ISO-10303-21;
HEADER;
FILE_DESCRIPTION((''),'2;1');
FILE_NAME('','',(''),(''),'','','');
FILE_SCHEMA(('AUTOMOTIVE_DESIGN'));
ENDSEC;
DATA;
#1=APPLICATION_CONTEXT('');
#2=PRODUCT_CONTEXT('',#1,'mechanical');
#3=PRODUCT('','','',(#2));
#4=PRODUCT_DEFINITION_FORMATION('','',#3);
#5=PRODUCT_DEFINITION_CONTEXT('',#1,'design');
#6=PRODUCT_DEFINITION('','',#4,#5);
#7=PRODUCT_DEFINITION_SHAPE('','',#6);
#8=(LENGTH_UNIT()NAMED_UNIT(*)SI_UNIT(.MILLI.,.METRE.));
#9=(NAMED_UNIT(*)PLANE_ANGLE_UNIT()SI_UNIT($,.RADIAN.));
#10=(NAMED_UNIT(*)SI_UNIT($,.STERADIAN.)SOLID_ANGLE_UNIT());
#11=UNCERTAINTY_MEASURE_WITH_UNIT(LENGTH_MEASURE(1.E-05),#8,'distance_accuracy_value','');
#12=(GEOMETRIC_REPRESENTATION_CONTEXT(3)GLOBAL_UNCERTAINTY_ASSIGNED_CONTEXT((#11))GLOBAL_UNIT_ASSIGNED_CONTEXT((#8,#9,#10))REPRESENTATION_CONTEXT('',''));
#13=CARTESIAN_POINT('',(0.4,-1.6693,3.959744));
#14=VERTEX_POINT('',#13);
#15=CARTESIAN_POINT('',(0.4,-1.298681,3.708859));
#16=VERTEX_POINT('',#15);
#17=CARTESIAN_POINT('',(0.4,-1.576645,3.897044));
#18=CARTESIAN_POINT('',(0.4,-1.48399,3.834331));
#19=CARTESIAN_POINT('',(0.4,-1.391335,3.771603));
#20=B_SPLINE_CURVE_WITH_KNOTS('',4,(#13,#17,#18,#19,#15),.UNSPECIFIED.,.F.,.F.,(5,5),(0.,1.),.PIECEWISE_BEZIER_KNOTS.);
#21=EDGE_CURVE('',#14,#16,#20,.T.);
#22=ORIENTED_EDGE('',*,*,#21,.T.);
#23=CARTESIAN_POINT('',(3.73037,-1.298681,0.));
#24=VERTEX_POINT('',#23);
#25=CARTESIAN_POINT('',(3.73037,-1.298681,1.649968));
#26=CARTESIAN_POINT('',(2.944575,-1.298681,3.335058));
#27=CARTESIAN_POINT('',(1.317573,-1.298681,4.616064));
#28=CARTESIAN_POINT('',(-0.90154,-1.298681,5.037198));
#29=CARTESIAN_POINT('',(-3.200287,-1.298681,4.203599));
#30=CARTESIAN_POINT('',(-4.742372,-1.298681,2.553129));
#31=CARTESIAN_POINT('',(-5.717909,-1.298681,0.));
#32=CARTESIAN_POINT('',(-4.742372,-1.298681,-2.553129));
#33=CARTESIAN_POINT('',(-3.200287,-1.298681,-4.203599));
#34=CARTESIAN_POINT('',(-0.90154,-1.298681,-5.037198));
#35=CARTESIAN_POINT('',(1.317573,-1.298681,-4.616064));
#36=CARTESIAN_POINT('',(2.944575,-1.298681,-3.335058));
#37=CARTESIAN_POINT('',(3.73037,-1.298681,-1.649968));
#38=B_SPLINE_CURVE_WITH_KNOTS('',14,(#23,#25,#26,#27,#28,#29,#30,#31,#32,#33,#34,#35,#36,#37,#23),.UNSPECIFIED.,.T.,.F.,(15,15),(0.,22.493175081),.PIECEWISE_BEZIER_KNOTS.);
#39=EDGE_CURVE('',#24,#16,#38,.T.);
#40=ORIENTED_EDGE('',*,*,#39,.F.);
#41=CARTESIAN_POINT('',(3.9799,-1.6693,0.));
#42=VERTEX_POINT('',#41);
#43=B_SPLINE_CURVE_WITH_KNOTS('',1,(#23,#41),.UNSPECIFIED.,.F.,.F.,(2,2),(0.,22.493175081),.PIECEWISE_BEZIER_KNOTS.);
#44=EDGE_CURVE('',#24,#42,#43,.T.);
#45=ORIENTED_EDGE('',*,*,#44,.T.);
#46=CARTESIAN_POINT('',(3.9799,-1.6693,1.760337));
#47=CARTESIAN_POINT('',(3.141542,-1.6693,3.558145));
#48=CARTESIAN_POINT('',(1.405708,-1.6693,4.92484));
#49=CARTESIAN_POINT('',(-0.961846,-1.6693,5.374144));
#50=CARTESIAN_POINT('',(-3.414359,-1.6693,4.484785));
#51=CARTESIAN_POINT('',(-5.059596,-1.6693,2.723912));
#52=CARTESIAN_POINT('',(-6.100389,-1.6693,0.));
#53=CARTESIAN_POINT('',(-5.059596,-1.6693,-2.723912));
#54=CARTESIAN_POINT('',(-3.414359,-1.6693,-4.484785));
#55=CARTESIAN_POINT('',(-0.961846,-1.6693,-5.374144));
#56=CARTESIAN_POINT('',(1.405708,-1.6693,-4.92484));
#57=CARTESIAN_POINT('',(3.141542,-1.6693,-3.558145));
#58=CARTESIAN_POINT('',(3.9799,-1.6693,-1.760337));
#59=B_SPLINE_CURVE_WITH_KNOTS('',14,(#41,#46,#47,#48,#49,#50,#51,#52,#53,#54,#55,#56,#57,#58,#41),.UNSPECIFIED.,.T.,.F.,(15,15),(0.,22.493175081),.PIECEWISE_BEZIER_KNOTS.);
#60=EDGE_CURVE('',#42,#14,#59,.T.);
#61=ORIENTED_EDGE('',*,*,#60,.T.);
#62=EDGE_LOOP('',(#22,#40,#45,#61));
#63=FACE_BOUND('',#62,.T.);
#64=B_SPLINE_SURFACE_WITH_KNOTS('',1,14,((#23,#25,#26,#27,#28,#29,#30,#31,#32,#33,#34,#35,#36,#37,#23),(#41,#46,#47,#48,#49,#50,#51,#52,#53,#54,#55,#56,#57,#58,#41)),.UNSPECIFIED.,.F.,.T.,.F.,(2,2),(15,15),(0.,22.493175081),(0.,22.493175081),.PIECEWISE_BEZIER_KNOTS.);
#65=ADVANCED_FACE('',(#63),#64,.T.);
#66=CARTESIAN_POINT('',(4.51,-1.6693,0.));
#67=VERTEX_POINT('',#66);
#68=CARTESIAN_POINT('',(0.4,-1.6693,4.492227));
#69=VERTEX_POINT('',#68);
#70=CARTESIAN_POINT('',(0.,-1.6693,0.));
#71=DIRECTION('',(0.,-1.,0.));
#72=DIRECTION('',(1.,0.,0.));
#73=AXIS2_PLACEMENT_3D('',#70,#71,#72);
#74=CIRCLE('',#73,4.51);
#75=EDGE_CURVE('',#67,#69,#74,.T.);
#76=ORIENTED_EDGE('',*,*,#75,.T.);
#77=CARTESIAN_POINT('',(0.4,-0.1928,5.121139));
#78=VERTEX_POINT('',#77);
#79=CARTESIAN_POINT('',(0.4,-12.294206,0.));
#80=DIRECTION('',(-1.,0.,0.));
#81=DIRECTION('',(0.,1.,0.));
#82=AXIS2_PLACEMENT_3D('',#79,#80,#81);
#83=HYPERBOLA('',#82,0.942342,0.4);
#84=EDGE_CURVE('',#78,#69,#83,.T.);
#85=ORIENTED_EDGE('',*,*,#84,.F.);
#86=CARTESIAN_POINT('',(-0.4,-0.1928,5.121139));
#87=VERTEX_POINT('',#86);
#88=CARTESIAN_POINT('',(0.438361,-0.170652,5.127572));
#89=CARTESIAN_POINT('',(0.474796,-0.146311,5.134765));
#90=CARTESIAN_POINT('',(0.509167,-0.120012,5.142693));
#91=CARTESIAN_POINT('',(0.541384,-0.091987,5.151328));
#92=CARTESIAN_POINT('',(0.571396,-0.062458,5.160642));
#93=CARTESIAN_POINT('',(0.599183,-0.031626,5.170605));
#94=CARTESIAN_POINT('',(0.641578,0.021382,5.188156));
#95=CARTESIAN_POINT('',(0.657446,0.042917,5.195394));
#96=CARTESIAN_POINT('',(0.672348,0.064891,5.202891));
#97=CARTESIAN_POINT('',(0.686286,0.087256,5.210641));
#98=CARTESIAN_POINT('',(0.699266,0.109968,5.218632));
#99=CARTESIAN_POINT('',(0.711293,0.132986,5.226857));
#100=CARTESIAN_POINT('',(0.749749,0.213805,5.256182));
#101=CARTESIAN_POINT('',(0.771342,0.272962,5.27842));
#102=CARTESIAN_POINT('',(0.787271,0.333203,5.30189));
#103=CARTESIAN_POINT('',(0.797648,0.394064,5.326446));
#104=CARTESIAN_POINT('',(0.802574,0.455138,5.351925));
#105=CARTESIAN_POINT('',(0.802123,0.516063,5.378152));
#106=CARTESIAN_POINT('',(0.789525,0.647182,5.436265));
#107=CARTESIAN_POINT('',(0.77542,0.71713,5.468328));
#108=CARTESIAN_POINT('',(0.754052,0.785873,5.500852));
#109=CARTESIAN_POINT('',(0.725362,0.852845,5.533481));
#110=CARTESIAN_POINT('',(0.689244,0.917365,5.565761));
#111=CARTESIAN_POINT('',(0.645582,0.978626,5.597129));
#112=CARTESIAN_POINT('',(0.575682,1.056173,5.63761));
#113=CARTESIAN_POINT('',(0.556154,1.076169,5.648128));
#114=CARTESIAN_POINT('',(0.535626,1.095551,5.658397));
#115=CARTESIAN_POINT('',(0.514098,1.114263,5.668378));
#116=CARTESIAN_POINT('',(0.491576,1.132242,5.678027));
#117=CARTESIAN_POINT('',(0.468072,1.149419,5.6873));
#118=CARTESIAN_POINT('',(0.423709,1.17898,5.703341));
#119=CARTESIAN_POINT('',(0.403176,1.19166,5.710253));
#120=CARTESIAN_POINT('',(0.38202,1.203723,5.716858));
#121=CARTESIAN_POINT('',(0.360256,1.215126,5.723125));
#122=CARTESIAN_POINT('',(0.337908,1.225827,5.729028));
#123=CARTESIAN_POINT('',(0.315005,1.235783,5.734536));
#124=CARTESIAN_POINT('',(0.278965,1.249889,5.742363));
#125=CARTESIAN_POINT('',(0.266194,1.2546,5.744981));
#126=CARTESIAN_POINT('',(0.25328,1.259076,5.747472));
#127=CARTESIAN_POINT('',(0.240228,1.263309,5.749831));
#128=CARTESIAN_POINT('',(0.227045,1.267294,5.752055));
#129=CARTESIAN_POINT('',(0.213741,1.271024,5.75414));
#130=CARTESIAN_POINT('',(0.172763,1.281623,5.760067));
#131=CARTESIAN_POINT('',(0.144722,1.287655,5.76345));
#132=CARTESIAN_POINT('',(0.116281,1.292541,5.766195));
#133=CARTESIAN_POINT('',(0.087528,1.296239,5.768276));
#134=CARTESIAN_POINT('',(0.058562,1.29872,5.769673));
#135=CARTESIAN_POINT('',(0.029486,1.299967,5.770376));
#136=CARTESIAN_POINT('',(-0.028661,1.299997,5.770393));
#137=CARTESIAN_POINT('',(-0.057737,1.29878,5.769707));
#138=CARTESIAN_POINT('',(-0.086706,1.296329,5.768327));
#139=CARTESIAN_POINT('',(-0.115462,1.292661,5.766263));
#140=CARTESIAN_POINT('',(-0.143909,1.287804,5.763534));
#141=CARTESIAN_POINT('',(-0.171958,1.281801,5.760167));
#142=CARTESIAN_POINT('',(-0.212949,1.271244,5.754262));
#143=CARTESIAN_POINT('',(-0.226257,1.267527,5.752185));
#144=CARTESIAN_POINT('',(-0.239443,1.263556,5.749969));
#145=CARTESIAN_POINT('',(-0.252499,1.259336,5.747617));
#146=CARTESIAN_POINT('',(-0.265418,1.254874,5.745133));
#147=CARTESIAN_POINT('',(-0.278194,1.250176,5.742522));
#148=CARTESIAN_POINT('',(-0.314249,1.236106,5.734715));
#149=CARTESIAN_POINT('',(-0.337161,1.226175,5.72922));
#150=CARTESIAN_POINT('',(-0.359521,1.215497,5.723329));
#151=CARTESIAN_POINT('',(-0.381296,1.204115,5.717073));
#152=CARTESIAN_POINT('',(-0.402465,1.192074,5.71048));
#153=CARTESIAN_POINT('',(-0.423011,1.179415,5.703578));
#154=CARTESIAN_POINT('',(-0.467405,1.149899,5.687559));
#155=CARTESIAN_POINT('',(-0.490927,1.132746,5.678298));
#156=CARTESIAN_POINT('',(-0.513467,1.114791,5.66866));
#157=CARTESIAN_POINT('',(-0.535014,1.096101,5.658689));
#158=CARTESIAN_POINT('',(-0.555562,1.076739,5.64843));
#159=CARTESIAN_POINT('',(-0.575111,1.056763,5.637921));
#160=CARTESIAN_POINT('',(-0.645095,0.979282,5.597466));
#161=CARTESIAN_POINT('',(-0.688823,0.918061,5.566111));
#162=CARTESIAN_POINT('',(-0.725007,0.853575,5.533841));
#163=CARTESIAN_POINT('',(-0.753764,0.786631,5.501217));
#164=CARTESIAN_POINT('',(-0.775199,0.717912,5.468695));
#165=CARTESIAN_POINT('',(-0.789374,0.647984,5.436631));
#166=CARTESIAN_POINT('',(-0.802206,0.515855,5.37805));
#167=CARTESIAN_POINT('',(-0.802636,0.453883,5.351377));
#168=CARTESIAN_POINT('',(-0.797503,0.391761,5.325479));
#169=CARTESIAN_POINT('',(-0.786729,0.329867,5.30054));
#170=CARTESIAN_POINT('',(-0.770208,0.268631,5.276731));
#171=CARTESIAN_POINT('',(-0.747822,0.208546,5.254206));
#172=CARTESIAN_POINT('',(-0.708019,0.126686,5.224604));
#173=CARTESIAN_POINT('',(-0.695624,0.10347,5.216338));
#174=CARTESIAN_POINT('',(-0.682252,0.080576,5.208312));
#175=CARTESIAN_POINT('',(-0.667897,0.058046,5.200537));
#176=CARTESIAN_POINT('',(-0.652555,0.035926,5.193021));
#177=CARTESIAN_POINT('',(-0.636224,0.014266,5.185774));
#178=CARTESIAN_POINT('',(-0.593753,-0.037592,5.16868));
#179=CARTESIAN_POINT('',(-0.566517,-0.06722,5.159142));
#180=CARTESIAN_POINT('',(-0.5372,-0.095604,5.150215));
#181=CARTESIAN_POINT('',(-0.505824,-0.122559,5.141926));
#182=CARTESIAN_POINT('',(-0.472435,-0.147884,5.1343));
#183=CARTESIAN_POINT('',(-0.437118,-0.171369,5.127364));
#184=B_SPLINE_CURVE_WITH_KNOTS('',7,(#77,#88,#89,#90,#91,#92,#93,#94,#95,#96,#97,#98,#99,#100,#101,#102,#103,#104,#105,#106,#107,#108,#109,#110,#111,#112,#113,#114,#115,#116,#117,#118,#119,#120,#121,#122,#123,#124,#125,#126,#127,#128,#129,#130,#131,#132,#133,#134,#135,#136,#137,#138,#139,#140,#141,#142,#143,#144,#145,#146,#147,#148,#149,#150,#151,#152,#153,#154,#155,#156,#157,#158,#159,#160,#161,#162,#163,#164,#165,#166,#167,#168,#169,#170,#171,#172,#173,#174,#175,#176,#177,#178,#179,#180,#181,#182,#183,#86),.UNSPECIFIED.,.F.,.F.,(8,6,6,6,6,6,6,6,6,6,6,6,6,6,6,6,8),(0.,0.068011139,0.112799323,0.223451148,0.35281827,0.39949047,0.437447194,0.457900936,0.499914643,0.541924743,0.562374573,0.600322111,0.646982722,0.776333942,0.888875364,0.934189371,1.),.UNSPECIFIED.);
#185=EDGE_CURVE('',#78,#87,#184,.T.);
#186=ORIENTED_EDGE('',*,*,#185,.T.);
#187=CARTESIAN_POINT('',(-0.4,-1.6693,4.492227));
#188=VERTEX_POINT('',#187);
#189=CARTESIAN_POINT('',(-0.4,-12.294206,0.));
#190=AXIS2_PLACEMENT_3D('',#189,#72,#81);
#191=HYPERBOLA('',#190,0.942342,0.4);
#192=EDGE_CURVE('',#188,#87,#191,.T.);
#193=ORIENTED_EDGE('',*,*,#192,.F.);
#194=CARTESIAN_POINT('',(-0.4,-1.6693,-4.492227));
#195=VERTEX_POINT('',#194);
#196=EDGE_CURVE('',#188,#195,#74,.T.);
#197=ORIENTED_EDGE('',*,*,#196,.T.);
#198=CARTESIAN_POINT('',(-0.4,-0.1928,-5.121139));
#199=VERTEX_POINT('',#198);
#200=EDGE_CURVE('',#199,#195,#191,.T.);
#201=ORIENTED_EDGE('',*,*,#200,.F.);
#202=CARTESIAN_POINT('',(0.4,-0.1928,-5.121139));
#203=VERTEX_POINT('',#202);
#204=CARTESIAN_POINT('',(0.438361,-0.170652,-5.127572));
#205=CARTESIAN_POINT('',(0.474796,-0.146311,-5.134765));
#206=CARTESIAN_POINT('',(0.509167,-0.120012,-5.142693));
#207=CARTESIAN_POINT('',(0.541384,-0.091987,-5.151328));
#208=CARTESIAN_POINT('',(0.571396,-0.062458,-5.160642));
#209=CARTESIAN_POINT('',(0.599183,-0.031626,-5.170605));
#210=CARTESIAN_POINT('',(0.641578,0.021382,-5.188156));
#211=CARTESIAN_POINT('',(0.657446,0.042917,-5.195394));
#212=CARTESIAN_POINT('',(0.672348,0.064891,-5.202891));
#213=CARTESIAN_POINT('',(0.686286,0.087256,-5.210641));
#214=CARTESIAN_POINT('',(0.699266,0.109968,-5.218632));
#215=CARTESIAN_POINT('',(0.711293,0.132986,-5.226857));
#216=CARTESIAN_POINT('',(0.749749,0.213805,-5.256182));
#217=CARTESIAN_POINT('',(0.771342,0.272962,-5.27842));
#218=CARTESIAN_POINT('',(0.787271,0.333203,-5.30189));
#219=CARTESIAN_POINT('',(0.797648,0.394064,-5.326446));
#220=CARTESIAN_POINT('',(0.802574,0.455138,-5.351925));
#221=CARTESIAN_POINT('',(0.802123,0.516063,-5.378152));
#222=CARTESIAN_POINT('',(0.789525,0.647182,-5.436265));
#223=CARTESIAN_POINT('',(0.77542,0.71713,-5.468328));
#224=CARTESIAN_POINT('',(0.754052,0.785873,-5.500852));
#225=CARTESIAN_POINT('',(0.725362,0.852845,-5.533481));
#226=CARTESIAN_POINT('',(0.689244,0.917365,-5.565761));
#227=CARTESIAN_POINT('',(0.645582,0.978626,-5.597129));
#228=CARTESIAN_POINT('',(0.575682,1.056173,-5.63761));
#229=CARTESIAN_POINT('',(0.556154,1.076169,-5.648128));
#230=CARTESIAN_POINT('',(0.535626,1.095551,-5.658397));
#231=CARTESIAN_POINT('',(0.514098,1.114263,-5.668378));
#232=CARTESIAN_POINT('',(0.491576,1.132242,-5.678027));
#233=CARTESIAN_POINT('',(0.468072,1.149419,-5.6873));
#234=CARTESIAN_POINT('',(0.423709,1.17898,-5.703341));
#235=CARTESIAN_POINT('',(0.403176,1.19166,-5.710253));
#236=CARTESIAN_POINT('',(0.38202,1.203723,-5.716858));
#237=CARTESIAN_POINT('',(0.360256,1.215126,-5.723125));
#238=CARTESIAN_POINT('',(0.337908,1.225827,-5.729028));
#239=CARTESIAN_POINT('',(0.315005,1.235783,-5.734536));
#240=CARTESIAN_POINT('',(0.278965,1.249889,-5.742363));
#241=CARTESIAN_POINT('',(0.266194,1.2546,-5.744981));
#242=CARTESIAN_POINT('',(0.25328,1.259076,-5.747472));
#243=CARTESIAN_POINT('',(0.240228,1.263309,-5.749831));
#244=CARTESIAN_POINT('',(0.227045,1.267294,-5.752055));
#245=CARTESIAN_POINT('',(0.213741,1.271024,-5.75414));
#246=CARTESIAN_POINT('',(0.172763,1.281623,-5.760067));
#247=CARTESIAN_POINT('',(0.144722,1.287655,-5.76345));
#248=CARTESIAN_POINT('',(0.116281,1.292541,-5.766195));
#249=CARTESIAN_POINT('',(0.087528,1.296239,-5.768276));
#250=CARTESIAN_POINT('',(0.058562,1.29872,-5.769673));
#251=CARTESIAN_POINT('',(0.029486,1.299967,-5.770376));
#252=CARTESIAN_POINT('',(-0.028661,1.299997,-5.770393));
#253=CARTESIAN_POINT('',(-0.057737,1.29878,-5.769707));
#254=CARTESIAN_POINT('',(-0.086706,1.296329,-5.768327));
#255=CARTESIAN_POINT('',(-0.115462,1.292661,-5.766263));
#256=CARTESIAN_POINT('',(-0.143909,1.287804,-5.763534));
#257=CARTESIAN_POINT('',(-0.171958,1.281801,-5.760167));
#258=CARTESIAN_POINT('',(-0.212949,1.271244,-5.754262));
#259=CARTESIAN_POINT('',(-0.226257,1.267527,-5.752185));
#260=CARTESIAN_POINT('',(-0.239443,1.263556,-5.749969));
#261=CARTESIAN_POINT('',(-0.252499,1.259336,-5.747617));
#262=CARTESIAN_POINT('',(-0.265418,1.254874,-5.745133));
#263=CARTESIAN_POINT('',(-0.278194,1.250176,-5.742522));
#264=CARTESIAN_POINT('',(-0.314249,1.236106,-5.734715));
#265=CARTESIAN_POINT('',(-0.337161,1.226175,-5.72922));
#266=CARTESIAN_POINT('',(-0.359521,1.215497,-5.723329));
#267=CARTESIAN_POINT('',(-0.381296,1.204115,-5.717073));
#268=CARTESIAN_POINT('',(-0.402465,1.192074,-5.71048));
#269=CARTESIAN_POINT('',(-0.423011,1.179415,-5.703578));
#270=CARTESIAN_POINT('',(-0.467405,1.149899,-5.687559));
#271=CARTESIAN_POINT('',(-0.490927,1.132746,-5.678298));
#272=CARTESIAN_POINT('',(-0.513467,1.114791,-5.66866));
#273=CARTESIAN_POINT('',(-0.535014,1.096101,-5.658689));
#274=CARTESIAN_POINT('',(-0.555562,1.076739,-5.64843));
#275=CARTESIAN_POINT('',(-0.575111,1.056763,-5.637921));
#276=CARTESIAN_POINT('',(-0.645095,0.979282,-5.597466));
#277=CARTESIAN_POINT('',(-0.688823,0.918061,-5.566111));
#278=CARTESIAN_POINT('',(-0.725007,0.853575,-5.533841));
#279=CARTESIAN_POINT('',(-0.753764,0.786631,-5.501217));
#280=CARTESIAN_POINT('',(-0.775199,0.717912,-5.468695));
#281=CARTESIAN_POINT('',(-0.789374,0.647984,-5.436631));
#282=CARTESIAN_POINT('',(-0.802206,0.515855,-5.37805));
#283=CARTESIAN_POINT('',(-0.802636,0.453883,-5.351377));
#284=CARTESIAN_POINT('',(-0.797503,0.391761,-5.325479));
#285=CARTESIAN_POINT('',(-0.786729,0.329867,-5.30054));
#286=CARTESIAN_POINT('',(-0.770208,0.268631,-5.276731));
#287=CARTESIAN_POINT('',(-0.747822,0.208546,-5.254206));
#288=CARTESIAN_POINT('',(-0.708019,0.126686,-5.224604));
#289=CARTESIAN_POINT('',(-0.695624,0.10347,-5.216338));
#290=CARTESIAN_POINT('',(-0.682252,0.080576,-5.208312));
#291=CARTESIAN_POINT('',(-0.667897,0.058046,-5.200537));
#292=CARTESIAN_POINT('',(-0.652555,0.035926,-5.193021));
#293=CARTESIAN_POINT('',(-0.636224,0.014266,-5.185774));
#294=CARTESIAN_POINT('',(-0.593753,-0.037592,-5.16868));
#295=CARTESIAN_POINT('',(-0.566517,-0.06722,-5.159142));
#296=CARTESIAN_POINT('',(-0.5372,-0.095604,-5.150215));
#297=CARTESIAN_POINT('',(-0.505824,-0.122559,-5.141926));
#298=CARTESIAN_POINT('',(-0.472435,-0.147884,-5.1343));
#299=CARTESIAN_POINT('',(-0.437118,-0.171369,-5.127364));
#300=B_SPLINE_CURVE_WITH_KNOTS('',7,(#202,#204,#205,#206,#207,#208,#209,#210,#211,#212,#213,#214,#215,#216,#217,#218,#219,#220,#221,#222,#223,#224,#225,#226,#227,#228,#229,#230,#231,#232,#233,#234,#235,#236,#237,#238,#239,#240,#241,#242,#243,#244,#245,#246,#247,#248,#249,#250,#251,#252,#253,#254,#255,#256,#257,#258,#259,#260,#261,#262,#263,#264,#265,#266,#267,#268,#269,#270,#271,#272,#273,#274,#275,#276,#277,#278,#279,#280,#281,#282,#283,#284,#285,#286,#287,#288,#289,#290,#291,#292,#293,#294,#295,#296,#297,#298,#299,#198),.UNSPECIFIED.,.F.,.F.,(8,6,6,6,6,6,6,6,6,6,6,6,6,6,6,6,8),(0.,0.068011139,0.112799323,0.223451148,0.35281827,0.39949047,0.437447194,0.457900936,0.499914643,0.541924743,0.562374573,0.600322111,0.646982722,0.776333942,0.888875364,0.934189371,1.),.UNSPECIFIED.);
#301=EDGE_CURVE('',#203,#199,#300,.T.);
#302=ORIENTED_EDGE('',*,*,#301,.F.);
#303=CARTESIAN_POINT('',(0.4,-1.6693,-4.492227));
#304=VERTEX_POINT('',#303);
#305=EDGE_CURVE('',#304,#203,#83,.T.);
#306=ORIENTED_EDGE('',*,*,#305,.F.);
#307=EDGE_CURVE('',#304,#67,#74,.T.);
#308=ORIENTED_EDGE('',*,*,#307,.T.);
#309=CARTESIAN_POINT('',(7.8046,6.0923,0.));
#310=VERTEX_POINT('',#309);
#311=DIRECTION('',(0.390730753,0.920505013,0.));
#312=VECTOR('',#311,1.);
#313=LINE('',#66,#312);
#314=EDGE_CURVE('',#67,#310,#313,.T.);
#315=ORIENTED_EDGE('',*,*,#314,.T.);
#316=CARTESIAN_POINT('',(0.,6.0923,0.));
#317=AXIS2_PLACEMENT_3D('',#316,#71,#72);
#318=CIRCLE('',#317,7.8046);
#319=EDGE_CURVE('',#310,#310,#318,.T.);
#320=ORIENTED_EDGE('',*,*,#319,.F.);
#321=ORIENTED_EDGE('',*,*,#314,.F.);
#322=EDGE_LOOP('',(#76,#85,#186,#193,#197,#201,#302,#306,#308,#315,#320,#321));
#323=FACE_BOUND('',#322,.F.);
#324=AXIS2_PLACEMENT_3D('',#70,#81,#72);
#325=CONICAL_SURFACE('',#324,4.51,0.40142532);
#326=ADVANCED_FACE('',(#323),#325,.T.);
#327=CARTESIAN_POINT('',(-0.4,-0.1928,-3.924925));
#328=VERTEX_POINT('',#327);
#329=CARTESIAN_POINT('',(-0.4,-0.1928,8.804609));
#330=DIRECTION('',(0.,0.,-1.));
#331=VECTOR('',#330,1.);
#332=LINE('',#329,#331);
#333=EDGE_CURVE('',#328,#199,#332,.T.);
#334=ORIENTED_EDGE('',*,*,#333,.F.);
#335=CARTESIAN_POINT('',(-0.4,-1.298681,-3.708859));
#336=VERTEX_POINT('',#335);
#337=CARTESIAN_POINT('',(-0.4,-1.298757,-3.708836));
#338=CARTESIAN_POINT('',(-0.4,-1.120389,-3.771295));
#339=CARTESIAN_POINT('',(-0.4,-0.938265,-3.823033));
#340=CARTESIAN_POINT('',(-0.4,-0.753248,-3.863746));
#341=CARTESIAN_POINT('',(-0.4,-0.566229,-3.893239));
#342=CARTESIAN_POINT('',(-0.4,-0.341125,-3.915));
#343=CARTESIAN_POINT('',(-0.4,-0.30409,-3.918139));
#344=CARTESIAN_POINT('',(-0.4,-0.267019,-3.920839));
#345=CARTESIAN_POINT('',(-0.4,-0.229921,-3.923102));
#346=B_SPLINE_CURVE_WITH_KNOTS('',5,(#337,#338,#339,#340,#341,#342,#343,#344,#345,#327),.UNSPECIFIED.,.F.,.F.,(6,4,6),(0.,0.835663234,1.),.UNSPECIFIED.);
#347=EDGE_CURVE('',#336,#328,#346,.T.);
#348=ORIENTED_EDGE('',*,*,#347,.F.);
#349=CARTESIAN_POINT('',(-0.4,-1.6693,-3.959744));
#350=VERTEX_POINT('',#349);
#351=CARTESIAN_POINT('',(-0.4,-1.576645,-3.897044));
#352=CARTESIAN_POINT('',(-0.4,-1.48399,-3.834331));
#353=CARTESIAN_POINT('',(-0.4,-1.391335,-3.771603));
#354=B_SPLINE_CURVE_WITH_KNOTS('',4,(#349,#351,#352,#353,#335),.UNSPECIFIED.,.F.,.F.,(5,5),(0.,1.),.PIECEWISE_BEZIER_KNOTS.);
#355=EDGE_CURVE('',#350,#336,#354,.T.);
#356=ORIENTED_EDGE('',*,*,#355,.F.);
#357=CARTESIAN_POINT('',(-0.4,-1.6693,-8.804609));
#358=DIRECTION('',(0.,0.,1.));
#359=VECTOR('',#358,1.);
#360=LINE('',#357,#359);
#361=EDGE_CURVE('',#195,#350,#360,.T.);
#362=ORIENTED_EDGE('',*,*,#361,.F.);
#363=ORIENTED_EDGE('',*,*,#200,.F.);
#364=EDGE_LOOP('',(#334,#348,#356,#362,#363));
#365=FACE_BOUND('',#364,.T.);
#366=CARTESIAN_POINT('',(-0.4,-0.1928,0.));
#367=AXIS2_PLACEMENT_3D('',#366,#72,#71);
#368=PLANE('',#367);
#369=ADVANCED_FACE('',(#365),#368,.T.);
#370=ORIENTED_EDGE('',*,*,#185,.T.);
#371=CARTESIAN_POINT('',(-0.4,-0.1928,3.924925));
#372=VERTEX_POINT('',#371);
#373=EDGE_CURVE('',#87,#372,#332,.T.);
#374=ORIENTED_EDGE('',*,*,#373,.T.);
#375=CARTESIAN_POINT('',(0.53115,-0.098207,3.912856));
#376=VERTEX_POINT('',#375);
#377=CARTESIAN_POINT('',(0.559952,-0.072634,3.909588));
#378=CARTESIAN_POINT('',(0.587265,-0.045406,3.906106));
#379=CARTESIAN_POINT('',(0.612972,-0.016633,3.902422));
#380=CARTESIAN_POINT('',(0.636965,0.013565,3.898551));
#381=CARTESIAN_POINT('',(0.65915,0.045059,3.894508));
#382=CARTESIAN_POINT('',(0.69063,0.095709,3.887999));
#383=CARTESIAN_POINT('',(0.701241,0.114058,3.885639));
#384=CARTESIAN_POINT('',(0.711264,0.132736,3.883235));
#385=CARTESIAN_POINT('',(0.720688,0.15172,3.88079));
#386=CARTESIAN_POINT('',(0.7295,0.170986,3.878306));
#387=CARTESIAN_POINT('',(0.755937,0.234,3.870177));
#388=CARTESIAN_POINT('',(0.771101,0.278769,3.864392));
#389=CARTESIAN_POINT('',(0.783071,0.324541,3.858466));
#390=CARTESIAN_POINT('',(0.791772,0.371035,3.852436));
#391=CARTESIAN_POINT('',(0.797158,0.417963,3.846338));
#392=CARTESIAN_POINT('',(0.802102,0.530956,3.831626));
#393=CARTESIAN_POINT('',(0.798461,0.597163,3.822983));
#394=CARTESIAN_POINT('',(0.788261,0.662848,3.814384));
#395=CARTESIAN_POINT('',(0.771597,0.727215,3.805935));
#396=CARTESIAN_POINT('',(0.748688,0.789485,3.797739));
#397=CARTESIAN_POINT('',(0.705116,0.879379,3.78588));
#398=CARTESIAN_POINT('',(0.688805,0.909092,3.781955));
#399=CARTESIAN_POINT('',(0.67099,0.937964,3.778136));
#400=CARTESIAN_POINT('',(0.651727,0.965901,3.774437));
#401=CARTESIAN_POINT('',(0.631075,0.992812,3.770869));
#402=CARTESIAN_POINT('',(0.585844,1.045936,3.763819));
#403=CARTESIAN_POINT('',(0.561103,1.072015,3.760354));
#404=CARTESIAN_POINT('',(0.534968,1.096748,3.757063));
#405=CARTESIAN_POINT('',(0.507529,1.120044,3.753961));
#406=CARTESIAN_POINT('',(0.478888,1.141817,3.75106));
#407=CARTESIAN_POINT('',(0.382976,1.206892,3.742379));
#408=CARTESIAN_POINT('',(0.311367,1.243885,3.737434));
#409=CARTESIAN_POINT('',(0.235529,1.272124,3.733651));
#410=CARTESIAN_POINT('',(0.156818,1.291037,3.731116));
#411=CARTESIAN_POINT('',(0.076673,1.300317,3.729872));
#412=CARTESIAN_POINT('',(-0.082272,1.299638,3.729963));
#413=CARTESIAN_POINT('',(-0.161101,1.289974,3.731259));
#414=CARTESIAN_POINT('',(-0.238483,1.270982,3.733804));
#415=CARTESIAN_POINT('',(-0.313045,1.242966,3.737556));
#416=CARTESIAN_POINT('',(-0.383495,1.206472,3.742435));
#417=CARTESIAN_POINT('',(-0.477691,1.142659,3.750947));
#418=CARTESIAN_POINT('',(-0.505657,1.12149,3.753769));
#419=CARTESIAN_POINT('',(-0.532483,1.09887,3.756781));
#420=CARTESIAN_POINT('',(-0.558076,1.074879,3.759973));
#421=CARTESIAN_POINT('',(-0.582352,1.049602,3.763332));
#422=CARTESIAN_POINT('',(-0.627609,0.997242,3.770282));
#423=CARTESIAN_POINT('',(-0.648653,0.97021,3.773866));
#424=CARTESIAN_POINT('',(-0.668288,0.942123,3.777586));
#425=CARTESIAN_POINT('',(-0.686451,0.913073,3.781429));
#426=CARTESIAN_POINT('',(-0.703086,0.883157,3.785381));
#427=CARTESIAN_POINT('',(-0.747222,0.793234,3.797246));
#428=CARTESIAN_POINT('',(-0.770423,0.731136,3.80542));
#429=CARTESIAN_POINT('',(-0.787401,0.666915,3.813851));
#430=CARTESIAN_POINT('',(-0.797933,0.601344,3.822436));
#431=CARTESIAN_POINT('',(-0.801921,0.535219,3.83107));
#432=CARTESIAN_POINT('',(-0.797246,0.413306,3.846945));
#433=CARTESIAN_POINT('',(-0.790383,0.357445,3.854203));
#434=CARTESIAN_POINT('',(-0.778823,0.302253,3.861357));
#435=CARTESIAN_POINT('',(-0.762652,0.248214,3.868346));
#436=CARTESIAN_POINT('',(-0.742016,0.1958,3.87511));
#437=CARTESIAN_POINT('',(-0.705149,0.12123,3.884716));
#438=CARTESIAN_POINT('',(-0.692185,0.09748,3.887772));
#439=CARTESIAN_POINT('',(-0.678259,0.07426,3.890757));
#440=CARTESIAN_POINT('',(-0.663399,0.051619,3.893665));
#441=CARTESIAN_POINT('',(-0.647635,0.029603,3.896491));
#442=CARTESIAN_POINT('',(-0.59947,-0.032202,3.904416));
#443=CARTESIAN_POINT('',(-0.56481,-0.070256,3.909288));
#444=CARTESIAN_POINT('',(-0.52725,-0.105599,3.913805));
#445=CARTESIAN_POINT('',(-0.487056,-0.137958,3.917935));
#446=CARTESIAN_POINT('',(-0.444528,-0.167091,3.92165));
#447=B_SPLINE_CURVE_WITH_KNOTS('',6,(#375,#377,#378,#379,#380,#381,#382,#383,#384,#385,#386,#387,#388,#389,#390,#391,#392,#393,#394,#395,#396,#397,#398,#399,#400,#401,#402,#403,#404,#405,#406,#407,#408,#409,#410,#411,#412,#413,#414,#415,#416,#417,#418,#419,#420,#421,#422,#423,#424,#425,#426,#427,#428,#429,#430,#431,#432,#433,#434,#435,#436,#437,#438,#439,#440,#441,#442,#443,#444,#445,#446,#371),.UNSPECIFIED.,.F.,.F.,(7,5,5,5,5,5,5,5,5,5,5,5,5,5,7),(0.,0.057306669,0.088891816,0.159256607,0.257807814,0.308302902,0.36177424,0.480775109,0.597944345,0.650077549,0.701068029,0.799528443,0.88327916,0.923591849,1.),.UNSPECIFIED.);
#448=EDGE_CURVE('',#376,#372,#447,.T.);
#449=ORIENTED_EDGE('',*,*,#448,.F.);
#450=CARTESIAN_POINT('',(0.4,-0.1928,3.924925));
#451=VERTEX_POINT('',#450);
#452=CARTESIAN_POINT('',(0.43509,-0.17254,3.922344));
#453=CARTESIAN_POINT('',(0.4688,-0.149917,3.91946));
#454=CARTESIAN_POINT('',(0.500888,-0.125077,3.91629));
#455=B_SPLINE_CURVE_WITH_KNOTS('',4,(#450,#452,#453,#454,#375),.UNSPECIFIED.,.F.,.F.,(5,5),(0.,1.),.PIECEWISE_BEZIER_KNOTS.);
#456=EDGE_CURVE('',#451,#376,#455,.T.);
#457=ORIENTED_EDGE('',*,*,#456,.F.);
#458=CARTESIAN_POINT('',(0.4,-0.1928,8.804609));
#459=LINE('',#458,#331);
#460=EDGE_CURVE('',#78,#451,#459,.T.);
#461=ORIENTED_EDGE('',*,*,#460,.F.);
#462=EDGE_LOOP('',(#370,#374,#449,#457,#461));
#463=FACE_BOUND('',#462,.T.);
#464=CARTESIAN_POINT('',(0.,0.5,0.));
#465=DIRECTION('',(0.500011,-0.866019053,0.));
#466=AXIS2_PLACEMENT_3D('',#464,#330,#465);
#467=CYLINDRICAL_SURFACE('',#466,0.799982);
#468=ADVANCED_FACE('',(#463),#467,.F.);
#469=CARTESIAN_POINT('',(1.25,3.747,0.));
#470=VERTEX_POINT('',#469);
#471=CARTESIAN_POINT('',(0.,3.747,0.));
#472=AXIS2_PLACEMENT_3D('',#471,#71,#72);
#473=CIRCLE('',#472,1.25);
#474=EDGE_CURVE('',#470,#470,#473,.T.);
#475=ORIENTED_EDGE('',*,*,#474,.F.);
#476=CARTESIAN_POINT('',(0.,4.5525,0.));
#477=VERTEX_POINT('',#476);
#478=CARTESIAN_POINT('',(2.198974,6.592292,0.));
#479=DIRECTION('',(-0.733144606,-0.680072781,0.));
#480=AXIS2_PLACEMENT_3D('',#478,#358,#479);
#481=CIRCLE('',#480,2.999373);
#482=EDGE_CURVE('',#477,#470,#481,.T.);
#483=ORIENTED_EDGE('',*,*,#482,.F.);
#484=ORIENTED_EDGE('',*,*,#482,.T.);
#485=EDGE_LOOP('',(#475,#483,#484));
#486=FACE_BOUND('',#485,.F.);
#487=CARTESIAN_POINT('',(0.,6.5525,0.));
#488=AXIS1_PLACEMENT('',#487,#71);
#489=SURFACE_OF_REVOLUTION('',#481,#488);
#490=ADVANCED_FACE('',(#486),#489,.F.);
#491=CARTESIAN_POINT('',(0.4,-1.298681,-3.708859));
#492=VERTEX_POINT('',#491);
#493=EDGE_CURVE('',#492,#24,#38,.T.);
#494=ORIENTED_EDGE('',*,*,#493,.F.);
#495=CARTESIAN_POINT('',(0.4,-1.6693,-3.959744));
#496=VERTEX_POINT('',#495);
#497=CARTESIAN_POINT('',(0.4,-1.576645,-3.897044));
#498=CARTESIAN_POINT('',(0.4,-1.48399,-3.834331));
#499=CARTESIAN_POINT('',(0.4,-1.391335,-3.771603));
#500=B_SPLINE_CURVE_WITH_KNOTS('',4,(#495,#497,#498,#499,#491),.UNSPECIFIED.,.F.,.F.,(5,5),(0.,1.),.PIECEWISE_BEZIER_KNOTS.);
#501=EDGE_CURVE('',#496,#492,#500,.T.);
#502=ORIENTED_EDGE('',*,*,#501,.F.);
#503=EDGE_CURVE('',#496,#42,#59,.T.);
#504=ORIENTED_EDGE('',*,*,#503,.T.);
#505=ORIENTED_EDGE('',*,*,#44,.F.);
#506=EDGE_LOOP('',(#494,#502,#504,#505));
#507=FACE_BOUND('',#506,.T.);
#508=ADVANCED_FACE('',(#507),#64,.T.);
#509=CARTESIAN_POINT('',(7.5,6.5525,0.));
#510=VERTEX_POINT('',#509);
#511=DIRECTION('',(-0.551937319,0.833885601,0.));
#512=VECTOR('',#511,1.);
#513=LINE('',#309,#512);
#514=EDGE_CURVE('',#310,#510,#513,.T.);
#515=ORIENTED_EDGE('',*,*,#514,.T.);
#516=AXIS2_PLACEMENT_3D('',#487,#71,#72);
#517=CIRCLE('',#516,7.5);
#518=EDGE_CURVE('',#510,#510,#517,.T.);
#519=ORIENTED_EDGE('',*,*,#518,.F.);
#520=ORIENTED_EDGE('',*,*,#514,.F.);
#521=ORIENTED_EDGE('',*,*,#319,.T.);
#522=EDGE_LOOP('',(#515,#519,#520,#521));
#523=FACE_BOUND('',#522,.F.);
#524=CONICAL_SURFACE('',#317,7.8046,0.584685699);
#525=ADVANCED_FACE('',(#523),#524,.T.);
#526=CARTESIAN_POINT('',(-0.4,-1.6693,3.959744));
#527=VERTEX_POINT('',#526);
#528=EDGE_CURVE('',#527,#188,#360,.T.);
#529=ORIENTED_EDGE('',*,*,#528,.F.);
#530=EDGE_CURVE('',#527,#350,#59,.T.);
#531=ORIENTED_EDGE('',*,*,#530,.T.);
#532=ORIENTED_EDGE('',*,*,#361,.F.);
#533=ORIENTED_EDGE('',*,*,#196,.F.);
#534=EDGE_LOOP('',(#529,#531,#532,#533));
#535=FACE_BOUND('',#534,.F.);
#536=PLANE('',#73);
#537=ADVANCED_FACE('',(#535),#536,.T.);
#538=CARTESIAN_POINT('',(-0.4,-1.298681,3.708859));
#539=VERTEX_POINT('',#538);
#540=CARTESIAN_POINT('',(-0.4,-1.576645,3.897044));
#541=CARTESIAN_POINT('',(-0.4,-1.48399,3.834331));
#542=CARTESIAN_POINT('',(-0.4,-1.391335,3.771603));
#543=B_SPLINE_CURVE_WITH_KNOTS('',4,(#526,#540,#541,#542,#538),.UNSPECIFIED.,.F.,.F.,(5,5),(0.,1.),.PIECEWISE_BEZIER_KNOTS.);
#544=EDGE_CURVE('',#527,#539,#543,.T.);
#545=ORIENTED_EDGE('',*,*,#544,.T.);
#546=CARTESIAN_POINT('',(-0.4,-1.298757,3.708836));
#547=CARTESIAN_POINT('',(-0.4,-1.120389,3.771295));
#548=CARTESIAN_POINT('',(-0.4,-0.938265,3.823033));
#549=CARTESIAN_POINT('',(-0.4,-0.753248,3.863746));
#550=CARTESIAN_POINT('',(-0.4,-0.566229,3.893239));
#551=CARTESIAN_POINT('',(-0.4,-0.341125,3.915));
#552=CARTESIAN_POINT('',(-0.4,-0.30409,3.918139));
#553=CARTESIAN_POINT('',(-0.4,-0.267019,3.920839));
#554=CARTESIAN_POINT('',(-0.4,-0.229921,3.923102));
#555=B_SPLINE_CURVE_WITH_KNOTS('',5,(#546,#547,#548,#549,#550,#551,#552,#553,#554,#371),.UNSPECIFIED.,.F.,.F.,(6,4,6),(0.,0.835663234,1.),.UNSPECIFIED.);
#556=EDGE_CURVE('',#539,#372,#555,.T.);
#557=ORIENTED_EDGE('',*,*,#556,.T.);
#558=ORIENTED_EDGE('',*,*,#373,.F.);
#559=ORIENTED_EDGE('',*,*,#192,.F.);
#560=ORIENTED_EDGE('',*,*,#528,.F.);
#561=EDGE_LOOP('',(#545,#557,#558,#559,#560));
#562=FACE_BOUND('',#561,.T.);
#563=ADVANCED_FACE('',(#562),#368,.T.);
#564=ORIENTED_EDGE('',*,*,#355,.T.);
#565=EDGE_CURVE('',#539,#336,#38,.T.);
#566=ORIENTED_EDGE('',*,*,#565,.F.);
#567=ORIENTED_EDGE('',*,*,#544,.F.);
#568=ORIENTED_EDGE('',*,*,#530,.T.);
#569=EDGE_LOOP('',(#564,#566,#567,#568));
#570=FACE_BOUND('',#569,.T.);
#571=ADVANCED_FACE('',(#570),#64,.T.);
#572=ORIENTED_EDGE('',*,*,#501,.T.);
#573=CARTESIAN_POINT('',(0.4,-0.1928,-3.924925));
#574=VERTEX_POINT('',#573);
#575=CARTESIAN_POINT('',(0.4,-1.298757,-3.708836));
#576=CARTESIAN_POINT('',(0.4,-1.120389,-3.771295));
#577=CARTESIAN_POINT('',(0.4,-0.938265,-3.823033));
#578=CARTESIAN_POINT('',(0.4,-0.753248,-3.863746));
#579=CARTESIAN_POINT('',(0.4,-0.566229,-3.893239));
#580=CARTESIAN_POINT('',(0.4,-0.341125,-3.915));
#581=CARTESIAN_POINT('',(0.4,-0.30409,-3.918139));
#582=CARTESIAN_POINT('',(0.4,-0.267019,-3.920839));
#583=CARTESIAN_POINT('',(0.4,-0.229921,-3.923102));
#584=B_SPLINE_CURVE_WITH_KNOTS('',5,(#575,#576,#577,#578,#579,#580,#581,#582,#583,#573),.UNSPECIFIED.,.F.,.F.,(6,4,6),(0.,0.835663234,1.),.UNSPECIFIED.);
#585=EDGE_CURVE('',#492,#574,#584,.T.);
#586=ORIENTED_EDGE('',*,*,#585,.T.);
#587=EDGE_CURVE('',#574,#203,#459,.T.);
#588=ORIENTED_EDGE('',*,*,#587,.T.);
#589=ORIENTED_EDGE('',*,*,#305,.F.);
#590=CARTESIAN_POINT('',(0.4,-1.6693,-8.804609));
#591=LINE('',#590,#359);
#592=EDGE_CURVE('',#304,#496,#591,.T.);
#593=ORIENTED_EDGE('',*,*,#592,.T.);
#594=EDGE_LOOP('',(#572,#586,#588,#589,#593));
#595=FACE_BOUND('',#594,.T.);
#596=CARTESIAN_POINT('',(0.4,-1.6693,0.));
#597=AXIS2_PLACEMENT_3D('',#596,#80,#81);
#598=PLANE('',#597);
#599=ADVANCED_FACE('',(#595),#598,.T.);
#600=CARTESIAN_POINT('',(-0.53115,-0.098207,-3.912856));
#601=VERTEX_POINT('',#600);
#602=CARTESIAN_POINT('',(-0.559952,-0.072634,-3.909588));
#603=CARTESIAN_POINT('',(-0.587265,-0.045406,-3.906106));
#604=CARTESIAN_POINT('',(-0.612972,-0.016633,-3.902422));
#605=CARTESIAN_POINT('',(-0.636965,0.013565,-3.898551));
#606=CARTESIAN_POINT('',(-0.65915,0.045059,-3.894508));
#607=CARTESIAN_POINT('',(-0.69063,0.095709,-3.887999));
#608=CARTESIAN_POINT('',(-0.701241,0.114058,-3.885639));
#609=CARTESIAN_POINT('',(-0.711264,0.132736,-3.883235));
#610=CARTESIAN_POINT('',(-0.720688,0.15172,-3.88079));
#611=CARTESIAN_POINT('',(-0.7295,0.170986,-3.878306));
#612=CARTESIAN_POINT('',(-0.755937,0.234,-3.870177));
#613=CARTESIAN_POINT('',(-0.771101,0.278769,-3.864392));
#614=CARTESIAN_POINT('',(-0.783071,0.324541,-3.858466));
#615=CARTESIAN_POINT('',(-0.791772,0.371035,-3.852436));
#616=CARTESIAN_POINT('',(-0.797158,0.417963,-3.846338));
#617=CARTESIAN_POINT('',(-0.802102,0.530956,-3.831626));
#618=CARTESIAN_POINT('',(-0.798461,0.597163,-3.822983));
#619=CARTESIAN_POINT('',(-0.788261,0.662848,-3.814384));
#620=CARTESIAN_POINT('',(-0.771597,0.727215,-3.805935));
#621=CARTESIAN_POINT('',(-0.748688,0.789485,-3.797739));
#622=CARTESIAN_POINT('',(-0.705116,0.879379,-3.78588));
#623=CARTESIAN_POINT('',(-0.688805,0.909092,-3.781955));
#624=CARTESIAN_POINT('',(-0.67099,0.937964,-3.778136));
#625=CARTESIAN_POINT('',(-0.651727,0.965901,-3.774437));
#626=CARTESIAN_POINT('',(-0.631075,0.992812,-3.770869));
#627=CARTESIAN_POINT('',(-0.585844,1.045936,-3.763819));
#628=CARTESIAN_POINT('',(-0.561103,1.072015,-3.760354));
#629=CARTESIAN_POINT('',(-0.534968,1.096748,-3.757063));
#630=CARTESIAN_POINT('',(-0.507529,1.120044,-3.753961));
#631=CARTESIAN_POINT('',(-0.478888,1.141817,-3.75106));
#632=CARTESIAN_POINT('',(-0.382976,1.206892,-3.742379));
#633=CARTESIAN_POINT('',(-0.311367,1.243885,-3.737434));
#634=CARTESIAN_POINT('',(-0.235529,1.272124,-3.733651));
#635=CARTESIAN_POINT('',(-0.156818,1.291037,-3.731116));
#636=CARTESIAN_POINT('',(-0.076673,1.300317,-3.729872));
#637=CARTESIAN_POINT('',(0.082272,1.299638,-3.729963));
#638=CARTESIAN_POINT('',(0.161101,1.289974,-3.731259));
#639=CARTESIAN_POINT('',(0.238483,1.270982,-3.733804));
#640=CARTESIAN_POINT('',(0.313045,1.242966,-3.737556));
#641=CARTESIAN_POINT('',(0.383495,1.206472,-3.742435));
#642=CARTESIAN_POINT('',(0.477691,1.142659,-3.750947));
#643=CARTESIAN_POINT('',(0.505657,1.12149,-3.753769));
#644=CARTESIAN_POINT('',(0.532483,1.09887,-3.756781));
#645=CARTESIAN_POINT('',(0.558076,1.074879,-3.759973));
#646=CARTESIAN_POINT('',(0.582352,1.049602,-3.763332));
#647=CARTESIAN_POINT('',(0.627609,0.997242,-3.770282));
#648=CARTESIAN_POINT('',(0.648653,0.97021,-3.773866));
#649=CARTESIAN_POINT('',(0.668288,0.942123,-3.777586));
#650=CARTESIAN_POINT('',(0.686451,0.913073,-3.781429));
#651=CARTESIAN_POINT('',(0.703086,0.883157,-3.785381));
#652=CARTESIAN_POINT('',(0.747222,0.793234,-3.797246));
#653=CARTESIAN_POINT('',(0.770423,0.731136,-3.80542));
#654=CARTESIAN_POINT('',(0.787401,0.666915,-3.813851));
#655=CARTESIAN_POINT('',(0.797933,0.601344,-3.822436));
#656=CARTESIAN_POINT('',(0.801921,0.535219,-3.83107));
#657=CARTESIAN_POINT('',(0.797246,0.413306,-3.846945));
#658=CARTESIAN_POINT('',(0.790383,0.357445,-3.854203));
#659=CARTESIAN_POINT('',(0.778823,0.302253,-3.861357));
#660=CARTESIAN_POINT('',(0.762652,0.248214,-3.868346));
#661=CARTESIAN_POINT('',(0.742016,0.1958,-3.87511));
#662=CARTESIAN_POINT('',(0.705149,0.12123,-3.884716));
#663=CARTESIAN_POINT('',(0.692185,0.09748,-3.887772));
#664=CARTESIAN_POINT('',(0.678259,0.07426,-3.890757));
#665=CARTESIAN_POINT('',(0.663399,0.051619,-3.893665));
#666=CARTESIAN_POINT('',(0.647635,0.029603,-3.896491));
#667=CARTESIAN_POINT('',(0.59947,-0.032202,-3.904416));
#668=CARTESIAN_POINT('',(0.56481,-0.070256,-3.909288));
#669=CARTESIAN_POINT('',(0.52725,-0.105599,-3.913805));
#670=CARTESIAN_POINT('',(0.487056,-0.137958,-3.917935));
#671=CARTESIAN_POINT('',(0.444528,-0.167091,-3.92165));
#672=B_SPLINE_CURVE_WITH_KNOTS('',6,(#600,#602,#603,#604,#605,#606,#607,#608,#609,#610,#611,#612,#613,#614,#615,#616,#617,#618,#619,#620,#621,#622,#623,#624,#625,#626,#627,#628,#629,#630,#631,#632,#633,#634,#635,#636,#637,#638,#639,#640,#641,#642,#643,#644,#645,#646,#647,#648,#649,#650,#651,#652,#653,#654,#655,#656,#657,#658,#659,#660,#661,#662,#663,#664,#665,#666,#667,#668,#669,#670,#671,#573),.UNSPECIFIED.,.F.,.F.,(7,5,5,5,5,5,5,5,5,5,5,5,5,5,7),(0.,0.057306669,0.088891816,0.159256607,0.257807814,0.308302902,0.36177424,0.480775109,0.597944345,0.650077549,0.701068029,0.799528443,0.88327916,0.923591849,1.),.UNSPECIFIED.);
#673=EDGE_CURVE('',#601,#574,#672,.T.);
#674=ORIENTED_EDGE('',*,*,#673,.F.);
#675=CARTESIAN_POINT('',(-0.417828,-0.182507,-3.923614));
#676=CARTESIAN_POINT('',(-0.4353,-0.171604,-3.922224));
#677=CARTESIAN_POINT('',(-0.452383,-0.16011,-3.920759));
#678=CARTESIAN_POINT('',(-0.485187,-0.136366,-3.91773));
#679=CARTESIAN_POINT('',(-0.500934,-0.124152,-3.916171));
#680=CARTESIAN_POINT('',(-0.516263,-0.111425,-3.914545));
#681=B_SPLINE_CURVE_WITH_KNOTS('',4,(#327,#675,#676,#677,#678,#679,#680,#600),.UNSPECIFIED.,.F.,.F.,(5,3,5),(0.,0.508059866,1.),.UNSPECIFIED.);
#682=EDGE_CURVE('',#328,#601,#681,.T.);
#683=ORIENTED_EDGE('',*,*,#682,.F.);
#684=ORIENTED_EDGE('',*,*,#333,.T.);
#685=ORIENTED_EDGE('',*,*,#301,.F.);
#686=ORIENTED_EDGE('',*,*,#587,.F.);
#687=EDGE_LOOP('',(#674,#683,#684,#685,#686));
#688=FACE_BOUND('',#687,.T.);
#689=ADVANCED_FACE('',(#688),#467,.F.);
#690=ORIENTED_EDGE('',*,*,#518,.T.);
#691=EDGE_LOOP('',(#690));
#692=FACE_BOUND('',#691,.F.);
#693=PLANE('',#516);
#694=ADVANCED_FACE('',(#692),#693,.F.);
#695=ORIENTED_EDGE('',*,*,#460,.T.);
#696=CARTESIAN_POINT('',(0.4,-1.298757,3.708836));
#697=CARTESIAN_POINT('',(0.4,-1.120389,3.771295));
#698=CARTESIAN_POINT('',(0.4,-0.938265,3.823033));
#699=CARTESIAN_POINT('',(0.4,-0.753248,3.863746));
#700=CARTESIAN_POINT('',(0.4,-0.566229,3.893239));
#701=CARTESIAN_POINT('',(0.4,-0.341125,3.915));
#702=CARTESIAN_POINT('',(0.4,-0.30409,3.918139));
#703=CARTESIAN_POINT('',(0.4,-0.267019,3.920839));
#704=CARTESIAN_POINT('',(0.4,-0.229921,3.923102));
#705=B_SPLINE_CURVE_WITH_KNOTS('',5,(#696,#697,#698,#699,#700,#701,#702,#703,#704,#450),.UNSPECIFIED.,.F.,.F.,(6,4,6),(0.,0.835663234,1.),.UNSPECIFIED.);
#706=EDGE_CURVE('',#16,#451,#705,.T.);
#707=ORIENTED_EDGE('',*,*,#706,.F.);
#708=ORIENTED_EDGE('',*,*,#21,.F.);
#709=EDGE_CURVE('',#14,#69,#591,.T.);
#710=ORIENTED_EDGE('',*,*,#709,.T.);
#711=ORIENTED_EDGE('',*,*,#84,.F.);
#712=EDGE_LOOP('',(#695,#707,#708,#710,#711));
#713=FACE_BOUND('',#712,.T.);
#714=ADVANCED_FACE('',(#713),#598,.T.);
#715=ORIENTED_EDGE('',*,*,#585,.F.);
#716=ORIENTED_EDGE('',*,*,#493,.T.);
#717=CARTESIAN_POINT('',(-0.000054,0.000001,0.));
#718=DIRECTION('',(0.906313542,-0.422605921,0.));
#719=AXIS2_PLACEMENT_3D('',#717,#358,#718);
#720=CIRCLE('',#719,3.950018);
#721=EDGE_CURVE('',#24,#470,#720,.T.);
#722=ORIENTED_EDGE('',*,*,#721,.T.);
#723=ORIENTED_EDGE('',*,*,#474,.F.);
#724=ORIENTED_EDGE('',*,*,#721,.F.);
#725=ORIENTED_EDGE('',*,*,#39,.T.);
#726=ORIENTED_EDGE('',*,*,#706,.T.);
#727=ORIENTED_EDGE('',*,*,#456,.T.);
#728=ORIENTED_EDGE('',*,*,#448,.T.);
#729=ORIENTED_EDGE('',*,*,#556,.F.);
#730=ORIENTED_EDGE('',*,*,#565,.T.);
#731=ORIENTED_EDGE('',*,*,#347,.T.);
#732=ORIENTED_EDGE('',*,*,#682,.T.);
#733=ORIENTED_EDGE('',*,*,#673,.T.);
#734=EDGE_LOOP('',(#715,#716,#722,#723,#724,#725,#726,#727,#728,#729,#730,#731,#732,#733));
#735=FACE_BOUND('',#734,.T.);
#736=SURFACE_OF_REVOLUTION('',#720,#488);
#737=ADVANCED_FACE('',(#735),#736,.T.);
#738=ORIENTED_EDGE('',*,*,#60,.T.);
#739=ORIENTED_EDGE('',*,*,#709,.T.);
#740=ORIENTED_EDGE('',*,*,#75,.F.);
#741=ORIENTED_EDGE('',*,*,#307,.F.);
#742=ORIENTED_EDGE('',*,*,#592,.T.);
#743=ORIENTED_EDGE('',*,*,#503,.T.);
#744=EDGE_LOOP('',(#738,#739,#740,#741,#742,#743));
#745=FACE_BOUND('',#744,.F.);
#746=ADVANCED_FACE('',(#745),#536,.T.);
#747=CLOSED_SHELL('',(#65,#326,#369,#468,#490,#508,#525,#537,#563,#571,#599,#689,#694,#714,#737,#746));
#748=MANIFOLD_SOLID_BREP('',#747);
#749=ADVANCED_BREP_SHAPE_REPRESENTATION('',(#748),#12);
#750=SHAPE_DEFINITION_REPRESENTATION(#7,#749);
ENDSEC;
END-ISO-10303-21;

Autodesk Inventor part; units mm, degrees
ref_plane "YZ Plane" through (0, 0, 0) normal (1, 0, 0) x (0, 1, 0)
ref_plane "XZ Plane" through (0, 0, 0) normal (0, 1, 0) x (-1, 0, 0)
ref_plane "XY Plane" through (0, 0, 0) normal (0, 0, 1) x (1, 0, 0)
sketch "Sketch2" plane through (0, 0, 0) normal (0, 0, 1) x (1, 0, 0)
  arc A0 (3.5799, -1.6693) -> (1.25, 3.747) centre (0, 0) ccw
  line L0 (3.5799, -1.6693) -> (4.51, -1.6693)
  line L1 (4.51, -1.6693) -> (7.8046, 6.0923)
  line L2 (7.5, 6.5525) -> (0, 6.5525)
  line L3 (0, 6.5525) -> (0, 4.5525)
  arc A1 (0, 4.5525) -> (1.25, 3.747) centre (2.1994, 6.5928) ccw
  line L4 (0, 0) -> (1.25, 0) construction
  line L5 (7.8046, 6.0923) -> (7.5, 6.5525)
  point P0 (8, 6.5525)
  dimension "d11" = 3.95
  dimension "d12" = 2
  dimension "d13" = 67
  dimension "d14" = 3
  dimension "d15" = 2.5
  dimension "d16" = 25
  dimension "d17" = 0.5
  dimension "d18" = 0.5
  dimension "d19" = 16
  dimension "d20" = 0.9301
revolve "Revolution1" add sketch "Sketch2" angle 360 about axis through (0, 6.5525, 0) along (0, -1, 0)
chamfer "Chamfer1" distance 0.4 angle 45 1 edges at (-3.5799, -1.6693, 0)
sketch "Sketch3" plane through (0, 0, 0) normal (0, 0, 1) x (1, 0, 0)
  arc A0 (3.7304, -1.2987) -> (-3.7304, -1.2987) centre (0, 0) ccw projected
  line L0 (-3.9799, -1.6693) -> (3.9799, -1.6693) projected
  line L1 (-0.4, -1.6693) -> (0.4, -1.6693)
  line L2 (0.4, -1.6693) -> (0.4, -0.1928)
  line L3 (0.4, -0.1928) -> (-0.4, -0.1928) construction
  line L4 (-0.4, -0.1928) -> (-0.4, -1.6693)
  line L5 (-0.4, -1.6693) -> (0.4, -0.1928) construction
  line L6 (0.4, -1.6693) -> (-0.4, -0.1928) construction
  arc A1 (0.4, -0.1928) -> (-0.4, -0.1928) centre (0, 0.5) ccw
  point P0 (0, -0.9311)
  dimension "d25" = 0.8
  dimension "d26" = 0.8
  dimension "d27" = 0.5
extrude "Extrusion2" cut sketch "Sketch3" along normal through all both and the other way through all
equation "\"d18\" = d17"
properties part number "Table Clamp Swiveling Pad" material "SAE 1020"
